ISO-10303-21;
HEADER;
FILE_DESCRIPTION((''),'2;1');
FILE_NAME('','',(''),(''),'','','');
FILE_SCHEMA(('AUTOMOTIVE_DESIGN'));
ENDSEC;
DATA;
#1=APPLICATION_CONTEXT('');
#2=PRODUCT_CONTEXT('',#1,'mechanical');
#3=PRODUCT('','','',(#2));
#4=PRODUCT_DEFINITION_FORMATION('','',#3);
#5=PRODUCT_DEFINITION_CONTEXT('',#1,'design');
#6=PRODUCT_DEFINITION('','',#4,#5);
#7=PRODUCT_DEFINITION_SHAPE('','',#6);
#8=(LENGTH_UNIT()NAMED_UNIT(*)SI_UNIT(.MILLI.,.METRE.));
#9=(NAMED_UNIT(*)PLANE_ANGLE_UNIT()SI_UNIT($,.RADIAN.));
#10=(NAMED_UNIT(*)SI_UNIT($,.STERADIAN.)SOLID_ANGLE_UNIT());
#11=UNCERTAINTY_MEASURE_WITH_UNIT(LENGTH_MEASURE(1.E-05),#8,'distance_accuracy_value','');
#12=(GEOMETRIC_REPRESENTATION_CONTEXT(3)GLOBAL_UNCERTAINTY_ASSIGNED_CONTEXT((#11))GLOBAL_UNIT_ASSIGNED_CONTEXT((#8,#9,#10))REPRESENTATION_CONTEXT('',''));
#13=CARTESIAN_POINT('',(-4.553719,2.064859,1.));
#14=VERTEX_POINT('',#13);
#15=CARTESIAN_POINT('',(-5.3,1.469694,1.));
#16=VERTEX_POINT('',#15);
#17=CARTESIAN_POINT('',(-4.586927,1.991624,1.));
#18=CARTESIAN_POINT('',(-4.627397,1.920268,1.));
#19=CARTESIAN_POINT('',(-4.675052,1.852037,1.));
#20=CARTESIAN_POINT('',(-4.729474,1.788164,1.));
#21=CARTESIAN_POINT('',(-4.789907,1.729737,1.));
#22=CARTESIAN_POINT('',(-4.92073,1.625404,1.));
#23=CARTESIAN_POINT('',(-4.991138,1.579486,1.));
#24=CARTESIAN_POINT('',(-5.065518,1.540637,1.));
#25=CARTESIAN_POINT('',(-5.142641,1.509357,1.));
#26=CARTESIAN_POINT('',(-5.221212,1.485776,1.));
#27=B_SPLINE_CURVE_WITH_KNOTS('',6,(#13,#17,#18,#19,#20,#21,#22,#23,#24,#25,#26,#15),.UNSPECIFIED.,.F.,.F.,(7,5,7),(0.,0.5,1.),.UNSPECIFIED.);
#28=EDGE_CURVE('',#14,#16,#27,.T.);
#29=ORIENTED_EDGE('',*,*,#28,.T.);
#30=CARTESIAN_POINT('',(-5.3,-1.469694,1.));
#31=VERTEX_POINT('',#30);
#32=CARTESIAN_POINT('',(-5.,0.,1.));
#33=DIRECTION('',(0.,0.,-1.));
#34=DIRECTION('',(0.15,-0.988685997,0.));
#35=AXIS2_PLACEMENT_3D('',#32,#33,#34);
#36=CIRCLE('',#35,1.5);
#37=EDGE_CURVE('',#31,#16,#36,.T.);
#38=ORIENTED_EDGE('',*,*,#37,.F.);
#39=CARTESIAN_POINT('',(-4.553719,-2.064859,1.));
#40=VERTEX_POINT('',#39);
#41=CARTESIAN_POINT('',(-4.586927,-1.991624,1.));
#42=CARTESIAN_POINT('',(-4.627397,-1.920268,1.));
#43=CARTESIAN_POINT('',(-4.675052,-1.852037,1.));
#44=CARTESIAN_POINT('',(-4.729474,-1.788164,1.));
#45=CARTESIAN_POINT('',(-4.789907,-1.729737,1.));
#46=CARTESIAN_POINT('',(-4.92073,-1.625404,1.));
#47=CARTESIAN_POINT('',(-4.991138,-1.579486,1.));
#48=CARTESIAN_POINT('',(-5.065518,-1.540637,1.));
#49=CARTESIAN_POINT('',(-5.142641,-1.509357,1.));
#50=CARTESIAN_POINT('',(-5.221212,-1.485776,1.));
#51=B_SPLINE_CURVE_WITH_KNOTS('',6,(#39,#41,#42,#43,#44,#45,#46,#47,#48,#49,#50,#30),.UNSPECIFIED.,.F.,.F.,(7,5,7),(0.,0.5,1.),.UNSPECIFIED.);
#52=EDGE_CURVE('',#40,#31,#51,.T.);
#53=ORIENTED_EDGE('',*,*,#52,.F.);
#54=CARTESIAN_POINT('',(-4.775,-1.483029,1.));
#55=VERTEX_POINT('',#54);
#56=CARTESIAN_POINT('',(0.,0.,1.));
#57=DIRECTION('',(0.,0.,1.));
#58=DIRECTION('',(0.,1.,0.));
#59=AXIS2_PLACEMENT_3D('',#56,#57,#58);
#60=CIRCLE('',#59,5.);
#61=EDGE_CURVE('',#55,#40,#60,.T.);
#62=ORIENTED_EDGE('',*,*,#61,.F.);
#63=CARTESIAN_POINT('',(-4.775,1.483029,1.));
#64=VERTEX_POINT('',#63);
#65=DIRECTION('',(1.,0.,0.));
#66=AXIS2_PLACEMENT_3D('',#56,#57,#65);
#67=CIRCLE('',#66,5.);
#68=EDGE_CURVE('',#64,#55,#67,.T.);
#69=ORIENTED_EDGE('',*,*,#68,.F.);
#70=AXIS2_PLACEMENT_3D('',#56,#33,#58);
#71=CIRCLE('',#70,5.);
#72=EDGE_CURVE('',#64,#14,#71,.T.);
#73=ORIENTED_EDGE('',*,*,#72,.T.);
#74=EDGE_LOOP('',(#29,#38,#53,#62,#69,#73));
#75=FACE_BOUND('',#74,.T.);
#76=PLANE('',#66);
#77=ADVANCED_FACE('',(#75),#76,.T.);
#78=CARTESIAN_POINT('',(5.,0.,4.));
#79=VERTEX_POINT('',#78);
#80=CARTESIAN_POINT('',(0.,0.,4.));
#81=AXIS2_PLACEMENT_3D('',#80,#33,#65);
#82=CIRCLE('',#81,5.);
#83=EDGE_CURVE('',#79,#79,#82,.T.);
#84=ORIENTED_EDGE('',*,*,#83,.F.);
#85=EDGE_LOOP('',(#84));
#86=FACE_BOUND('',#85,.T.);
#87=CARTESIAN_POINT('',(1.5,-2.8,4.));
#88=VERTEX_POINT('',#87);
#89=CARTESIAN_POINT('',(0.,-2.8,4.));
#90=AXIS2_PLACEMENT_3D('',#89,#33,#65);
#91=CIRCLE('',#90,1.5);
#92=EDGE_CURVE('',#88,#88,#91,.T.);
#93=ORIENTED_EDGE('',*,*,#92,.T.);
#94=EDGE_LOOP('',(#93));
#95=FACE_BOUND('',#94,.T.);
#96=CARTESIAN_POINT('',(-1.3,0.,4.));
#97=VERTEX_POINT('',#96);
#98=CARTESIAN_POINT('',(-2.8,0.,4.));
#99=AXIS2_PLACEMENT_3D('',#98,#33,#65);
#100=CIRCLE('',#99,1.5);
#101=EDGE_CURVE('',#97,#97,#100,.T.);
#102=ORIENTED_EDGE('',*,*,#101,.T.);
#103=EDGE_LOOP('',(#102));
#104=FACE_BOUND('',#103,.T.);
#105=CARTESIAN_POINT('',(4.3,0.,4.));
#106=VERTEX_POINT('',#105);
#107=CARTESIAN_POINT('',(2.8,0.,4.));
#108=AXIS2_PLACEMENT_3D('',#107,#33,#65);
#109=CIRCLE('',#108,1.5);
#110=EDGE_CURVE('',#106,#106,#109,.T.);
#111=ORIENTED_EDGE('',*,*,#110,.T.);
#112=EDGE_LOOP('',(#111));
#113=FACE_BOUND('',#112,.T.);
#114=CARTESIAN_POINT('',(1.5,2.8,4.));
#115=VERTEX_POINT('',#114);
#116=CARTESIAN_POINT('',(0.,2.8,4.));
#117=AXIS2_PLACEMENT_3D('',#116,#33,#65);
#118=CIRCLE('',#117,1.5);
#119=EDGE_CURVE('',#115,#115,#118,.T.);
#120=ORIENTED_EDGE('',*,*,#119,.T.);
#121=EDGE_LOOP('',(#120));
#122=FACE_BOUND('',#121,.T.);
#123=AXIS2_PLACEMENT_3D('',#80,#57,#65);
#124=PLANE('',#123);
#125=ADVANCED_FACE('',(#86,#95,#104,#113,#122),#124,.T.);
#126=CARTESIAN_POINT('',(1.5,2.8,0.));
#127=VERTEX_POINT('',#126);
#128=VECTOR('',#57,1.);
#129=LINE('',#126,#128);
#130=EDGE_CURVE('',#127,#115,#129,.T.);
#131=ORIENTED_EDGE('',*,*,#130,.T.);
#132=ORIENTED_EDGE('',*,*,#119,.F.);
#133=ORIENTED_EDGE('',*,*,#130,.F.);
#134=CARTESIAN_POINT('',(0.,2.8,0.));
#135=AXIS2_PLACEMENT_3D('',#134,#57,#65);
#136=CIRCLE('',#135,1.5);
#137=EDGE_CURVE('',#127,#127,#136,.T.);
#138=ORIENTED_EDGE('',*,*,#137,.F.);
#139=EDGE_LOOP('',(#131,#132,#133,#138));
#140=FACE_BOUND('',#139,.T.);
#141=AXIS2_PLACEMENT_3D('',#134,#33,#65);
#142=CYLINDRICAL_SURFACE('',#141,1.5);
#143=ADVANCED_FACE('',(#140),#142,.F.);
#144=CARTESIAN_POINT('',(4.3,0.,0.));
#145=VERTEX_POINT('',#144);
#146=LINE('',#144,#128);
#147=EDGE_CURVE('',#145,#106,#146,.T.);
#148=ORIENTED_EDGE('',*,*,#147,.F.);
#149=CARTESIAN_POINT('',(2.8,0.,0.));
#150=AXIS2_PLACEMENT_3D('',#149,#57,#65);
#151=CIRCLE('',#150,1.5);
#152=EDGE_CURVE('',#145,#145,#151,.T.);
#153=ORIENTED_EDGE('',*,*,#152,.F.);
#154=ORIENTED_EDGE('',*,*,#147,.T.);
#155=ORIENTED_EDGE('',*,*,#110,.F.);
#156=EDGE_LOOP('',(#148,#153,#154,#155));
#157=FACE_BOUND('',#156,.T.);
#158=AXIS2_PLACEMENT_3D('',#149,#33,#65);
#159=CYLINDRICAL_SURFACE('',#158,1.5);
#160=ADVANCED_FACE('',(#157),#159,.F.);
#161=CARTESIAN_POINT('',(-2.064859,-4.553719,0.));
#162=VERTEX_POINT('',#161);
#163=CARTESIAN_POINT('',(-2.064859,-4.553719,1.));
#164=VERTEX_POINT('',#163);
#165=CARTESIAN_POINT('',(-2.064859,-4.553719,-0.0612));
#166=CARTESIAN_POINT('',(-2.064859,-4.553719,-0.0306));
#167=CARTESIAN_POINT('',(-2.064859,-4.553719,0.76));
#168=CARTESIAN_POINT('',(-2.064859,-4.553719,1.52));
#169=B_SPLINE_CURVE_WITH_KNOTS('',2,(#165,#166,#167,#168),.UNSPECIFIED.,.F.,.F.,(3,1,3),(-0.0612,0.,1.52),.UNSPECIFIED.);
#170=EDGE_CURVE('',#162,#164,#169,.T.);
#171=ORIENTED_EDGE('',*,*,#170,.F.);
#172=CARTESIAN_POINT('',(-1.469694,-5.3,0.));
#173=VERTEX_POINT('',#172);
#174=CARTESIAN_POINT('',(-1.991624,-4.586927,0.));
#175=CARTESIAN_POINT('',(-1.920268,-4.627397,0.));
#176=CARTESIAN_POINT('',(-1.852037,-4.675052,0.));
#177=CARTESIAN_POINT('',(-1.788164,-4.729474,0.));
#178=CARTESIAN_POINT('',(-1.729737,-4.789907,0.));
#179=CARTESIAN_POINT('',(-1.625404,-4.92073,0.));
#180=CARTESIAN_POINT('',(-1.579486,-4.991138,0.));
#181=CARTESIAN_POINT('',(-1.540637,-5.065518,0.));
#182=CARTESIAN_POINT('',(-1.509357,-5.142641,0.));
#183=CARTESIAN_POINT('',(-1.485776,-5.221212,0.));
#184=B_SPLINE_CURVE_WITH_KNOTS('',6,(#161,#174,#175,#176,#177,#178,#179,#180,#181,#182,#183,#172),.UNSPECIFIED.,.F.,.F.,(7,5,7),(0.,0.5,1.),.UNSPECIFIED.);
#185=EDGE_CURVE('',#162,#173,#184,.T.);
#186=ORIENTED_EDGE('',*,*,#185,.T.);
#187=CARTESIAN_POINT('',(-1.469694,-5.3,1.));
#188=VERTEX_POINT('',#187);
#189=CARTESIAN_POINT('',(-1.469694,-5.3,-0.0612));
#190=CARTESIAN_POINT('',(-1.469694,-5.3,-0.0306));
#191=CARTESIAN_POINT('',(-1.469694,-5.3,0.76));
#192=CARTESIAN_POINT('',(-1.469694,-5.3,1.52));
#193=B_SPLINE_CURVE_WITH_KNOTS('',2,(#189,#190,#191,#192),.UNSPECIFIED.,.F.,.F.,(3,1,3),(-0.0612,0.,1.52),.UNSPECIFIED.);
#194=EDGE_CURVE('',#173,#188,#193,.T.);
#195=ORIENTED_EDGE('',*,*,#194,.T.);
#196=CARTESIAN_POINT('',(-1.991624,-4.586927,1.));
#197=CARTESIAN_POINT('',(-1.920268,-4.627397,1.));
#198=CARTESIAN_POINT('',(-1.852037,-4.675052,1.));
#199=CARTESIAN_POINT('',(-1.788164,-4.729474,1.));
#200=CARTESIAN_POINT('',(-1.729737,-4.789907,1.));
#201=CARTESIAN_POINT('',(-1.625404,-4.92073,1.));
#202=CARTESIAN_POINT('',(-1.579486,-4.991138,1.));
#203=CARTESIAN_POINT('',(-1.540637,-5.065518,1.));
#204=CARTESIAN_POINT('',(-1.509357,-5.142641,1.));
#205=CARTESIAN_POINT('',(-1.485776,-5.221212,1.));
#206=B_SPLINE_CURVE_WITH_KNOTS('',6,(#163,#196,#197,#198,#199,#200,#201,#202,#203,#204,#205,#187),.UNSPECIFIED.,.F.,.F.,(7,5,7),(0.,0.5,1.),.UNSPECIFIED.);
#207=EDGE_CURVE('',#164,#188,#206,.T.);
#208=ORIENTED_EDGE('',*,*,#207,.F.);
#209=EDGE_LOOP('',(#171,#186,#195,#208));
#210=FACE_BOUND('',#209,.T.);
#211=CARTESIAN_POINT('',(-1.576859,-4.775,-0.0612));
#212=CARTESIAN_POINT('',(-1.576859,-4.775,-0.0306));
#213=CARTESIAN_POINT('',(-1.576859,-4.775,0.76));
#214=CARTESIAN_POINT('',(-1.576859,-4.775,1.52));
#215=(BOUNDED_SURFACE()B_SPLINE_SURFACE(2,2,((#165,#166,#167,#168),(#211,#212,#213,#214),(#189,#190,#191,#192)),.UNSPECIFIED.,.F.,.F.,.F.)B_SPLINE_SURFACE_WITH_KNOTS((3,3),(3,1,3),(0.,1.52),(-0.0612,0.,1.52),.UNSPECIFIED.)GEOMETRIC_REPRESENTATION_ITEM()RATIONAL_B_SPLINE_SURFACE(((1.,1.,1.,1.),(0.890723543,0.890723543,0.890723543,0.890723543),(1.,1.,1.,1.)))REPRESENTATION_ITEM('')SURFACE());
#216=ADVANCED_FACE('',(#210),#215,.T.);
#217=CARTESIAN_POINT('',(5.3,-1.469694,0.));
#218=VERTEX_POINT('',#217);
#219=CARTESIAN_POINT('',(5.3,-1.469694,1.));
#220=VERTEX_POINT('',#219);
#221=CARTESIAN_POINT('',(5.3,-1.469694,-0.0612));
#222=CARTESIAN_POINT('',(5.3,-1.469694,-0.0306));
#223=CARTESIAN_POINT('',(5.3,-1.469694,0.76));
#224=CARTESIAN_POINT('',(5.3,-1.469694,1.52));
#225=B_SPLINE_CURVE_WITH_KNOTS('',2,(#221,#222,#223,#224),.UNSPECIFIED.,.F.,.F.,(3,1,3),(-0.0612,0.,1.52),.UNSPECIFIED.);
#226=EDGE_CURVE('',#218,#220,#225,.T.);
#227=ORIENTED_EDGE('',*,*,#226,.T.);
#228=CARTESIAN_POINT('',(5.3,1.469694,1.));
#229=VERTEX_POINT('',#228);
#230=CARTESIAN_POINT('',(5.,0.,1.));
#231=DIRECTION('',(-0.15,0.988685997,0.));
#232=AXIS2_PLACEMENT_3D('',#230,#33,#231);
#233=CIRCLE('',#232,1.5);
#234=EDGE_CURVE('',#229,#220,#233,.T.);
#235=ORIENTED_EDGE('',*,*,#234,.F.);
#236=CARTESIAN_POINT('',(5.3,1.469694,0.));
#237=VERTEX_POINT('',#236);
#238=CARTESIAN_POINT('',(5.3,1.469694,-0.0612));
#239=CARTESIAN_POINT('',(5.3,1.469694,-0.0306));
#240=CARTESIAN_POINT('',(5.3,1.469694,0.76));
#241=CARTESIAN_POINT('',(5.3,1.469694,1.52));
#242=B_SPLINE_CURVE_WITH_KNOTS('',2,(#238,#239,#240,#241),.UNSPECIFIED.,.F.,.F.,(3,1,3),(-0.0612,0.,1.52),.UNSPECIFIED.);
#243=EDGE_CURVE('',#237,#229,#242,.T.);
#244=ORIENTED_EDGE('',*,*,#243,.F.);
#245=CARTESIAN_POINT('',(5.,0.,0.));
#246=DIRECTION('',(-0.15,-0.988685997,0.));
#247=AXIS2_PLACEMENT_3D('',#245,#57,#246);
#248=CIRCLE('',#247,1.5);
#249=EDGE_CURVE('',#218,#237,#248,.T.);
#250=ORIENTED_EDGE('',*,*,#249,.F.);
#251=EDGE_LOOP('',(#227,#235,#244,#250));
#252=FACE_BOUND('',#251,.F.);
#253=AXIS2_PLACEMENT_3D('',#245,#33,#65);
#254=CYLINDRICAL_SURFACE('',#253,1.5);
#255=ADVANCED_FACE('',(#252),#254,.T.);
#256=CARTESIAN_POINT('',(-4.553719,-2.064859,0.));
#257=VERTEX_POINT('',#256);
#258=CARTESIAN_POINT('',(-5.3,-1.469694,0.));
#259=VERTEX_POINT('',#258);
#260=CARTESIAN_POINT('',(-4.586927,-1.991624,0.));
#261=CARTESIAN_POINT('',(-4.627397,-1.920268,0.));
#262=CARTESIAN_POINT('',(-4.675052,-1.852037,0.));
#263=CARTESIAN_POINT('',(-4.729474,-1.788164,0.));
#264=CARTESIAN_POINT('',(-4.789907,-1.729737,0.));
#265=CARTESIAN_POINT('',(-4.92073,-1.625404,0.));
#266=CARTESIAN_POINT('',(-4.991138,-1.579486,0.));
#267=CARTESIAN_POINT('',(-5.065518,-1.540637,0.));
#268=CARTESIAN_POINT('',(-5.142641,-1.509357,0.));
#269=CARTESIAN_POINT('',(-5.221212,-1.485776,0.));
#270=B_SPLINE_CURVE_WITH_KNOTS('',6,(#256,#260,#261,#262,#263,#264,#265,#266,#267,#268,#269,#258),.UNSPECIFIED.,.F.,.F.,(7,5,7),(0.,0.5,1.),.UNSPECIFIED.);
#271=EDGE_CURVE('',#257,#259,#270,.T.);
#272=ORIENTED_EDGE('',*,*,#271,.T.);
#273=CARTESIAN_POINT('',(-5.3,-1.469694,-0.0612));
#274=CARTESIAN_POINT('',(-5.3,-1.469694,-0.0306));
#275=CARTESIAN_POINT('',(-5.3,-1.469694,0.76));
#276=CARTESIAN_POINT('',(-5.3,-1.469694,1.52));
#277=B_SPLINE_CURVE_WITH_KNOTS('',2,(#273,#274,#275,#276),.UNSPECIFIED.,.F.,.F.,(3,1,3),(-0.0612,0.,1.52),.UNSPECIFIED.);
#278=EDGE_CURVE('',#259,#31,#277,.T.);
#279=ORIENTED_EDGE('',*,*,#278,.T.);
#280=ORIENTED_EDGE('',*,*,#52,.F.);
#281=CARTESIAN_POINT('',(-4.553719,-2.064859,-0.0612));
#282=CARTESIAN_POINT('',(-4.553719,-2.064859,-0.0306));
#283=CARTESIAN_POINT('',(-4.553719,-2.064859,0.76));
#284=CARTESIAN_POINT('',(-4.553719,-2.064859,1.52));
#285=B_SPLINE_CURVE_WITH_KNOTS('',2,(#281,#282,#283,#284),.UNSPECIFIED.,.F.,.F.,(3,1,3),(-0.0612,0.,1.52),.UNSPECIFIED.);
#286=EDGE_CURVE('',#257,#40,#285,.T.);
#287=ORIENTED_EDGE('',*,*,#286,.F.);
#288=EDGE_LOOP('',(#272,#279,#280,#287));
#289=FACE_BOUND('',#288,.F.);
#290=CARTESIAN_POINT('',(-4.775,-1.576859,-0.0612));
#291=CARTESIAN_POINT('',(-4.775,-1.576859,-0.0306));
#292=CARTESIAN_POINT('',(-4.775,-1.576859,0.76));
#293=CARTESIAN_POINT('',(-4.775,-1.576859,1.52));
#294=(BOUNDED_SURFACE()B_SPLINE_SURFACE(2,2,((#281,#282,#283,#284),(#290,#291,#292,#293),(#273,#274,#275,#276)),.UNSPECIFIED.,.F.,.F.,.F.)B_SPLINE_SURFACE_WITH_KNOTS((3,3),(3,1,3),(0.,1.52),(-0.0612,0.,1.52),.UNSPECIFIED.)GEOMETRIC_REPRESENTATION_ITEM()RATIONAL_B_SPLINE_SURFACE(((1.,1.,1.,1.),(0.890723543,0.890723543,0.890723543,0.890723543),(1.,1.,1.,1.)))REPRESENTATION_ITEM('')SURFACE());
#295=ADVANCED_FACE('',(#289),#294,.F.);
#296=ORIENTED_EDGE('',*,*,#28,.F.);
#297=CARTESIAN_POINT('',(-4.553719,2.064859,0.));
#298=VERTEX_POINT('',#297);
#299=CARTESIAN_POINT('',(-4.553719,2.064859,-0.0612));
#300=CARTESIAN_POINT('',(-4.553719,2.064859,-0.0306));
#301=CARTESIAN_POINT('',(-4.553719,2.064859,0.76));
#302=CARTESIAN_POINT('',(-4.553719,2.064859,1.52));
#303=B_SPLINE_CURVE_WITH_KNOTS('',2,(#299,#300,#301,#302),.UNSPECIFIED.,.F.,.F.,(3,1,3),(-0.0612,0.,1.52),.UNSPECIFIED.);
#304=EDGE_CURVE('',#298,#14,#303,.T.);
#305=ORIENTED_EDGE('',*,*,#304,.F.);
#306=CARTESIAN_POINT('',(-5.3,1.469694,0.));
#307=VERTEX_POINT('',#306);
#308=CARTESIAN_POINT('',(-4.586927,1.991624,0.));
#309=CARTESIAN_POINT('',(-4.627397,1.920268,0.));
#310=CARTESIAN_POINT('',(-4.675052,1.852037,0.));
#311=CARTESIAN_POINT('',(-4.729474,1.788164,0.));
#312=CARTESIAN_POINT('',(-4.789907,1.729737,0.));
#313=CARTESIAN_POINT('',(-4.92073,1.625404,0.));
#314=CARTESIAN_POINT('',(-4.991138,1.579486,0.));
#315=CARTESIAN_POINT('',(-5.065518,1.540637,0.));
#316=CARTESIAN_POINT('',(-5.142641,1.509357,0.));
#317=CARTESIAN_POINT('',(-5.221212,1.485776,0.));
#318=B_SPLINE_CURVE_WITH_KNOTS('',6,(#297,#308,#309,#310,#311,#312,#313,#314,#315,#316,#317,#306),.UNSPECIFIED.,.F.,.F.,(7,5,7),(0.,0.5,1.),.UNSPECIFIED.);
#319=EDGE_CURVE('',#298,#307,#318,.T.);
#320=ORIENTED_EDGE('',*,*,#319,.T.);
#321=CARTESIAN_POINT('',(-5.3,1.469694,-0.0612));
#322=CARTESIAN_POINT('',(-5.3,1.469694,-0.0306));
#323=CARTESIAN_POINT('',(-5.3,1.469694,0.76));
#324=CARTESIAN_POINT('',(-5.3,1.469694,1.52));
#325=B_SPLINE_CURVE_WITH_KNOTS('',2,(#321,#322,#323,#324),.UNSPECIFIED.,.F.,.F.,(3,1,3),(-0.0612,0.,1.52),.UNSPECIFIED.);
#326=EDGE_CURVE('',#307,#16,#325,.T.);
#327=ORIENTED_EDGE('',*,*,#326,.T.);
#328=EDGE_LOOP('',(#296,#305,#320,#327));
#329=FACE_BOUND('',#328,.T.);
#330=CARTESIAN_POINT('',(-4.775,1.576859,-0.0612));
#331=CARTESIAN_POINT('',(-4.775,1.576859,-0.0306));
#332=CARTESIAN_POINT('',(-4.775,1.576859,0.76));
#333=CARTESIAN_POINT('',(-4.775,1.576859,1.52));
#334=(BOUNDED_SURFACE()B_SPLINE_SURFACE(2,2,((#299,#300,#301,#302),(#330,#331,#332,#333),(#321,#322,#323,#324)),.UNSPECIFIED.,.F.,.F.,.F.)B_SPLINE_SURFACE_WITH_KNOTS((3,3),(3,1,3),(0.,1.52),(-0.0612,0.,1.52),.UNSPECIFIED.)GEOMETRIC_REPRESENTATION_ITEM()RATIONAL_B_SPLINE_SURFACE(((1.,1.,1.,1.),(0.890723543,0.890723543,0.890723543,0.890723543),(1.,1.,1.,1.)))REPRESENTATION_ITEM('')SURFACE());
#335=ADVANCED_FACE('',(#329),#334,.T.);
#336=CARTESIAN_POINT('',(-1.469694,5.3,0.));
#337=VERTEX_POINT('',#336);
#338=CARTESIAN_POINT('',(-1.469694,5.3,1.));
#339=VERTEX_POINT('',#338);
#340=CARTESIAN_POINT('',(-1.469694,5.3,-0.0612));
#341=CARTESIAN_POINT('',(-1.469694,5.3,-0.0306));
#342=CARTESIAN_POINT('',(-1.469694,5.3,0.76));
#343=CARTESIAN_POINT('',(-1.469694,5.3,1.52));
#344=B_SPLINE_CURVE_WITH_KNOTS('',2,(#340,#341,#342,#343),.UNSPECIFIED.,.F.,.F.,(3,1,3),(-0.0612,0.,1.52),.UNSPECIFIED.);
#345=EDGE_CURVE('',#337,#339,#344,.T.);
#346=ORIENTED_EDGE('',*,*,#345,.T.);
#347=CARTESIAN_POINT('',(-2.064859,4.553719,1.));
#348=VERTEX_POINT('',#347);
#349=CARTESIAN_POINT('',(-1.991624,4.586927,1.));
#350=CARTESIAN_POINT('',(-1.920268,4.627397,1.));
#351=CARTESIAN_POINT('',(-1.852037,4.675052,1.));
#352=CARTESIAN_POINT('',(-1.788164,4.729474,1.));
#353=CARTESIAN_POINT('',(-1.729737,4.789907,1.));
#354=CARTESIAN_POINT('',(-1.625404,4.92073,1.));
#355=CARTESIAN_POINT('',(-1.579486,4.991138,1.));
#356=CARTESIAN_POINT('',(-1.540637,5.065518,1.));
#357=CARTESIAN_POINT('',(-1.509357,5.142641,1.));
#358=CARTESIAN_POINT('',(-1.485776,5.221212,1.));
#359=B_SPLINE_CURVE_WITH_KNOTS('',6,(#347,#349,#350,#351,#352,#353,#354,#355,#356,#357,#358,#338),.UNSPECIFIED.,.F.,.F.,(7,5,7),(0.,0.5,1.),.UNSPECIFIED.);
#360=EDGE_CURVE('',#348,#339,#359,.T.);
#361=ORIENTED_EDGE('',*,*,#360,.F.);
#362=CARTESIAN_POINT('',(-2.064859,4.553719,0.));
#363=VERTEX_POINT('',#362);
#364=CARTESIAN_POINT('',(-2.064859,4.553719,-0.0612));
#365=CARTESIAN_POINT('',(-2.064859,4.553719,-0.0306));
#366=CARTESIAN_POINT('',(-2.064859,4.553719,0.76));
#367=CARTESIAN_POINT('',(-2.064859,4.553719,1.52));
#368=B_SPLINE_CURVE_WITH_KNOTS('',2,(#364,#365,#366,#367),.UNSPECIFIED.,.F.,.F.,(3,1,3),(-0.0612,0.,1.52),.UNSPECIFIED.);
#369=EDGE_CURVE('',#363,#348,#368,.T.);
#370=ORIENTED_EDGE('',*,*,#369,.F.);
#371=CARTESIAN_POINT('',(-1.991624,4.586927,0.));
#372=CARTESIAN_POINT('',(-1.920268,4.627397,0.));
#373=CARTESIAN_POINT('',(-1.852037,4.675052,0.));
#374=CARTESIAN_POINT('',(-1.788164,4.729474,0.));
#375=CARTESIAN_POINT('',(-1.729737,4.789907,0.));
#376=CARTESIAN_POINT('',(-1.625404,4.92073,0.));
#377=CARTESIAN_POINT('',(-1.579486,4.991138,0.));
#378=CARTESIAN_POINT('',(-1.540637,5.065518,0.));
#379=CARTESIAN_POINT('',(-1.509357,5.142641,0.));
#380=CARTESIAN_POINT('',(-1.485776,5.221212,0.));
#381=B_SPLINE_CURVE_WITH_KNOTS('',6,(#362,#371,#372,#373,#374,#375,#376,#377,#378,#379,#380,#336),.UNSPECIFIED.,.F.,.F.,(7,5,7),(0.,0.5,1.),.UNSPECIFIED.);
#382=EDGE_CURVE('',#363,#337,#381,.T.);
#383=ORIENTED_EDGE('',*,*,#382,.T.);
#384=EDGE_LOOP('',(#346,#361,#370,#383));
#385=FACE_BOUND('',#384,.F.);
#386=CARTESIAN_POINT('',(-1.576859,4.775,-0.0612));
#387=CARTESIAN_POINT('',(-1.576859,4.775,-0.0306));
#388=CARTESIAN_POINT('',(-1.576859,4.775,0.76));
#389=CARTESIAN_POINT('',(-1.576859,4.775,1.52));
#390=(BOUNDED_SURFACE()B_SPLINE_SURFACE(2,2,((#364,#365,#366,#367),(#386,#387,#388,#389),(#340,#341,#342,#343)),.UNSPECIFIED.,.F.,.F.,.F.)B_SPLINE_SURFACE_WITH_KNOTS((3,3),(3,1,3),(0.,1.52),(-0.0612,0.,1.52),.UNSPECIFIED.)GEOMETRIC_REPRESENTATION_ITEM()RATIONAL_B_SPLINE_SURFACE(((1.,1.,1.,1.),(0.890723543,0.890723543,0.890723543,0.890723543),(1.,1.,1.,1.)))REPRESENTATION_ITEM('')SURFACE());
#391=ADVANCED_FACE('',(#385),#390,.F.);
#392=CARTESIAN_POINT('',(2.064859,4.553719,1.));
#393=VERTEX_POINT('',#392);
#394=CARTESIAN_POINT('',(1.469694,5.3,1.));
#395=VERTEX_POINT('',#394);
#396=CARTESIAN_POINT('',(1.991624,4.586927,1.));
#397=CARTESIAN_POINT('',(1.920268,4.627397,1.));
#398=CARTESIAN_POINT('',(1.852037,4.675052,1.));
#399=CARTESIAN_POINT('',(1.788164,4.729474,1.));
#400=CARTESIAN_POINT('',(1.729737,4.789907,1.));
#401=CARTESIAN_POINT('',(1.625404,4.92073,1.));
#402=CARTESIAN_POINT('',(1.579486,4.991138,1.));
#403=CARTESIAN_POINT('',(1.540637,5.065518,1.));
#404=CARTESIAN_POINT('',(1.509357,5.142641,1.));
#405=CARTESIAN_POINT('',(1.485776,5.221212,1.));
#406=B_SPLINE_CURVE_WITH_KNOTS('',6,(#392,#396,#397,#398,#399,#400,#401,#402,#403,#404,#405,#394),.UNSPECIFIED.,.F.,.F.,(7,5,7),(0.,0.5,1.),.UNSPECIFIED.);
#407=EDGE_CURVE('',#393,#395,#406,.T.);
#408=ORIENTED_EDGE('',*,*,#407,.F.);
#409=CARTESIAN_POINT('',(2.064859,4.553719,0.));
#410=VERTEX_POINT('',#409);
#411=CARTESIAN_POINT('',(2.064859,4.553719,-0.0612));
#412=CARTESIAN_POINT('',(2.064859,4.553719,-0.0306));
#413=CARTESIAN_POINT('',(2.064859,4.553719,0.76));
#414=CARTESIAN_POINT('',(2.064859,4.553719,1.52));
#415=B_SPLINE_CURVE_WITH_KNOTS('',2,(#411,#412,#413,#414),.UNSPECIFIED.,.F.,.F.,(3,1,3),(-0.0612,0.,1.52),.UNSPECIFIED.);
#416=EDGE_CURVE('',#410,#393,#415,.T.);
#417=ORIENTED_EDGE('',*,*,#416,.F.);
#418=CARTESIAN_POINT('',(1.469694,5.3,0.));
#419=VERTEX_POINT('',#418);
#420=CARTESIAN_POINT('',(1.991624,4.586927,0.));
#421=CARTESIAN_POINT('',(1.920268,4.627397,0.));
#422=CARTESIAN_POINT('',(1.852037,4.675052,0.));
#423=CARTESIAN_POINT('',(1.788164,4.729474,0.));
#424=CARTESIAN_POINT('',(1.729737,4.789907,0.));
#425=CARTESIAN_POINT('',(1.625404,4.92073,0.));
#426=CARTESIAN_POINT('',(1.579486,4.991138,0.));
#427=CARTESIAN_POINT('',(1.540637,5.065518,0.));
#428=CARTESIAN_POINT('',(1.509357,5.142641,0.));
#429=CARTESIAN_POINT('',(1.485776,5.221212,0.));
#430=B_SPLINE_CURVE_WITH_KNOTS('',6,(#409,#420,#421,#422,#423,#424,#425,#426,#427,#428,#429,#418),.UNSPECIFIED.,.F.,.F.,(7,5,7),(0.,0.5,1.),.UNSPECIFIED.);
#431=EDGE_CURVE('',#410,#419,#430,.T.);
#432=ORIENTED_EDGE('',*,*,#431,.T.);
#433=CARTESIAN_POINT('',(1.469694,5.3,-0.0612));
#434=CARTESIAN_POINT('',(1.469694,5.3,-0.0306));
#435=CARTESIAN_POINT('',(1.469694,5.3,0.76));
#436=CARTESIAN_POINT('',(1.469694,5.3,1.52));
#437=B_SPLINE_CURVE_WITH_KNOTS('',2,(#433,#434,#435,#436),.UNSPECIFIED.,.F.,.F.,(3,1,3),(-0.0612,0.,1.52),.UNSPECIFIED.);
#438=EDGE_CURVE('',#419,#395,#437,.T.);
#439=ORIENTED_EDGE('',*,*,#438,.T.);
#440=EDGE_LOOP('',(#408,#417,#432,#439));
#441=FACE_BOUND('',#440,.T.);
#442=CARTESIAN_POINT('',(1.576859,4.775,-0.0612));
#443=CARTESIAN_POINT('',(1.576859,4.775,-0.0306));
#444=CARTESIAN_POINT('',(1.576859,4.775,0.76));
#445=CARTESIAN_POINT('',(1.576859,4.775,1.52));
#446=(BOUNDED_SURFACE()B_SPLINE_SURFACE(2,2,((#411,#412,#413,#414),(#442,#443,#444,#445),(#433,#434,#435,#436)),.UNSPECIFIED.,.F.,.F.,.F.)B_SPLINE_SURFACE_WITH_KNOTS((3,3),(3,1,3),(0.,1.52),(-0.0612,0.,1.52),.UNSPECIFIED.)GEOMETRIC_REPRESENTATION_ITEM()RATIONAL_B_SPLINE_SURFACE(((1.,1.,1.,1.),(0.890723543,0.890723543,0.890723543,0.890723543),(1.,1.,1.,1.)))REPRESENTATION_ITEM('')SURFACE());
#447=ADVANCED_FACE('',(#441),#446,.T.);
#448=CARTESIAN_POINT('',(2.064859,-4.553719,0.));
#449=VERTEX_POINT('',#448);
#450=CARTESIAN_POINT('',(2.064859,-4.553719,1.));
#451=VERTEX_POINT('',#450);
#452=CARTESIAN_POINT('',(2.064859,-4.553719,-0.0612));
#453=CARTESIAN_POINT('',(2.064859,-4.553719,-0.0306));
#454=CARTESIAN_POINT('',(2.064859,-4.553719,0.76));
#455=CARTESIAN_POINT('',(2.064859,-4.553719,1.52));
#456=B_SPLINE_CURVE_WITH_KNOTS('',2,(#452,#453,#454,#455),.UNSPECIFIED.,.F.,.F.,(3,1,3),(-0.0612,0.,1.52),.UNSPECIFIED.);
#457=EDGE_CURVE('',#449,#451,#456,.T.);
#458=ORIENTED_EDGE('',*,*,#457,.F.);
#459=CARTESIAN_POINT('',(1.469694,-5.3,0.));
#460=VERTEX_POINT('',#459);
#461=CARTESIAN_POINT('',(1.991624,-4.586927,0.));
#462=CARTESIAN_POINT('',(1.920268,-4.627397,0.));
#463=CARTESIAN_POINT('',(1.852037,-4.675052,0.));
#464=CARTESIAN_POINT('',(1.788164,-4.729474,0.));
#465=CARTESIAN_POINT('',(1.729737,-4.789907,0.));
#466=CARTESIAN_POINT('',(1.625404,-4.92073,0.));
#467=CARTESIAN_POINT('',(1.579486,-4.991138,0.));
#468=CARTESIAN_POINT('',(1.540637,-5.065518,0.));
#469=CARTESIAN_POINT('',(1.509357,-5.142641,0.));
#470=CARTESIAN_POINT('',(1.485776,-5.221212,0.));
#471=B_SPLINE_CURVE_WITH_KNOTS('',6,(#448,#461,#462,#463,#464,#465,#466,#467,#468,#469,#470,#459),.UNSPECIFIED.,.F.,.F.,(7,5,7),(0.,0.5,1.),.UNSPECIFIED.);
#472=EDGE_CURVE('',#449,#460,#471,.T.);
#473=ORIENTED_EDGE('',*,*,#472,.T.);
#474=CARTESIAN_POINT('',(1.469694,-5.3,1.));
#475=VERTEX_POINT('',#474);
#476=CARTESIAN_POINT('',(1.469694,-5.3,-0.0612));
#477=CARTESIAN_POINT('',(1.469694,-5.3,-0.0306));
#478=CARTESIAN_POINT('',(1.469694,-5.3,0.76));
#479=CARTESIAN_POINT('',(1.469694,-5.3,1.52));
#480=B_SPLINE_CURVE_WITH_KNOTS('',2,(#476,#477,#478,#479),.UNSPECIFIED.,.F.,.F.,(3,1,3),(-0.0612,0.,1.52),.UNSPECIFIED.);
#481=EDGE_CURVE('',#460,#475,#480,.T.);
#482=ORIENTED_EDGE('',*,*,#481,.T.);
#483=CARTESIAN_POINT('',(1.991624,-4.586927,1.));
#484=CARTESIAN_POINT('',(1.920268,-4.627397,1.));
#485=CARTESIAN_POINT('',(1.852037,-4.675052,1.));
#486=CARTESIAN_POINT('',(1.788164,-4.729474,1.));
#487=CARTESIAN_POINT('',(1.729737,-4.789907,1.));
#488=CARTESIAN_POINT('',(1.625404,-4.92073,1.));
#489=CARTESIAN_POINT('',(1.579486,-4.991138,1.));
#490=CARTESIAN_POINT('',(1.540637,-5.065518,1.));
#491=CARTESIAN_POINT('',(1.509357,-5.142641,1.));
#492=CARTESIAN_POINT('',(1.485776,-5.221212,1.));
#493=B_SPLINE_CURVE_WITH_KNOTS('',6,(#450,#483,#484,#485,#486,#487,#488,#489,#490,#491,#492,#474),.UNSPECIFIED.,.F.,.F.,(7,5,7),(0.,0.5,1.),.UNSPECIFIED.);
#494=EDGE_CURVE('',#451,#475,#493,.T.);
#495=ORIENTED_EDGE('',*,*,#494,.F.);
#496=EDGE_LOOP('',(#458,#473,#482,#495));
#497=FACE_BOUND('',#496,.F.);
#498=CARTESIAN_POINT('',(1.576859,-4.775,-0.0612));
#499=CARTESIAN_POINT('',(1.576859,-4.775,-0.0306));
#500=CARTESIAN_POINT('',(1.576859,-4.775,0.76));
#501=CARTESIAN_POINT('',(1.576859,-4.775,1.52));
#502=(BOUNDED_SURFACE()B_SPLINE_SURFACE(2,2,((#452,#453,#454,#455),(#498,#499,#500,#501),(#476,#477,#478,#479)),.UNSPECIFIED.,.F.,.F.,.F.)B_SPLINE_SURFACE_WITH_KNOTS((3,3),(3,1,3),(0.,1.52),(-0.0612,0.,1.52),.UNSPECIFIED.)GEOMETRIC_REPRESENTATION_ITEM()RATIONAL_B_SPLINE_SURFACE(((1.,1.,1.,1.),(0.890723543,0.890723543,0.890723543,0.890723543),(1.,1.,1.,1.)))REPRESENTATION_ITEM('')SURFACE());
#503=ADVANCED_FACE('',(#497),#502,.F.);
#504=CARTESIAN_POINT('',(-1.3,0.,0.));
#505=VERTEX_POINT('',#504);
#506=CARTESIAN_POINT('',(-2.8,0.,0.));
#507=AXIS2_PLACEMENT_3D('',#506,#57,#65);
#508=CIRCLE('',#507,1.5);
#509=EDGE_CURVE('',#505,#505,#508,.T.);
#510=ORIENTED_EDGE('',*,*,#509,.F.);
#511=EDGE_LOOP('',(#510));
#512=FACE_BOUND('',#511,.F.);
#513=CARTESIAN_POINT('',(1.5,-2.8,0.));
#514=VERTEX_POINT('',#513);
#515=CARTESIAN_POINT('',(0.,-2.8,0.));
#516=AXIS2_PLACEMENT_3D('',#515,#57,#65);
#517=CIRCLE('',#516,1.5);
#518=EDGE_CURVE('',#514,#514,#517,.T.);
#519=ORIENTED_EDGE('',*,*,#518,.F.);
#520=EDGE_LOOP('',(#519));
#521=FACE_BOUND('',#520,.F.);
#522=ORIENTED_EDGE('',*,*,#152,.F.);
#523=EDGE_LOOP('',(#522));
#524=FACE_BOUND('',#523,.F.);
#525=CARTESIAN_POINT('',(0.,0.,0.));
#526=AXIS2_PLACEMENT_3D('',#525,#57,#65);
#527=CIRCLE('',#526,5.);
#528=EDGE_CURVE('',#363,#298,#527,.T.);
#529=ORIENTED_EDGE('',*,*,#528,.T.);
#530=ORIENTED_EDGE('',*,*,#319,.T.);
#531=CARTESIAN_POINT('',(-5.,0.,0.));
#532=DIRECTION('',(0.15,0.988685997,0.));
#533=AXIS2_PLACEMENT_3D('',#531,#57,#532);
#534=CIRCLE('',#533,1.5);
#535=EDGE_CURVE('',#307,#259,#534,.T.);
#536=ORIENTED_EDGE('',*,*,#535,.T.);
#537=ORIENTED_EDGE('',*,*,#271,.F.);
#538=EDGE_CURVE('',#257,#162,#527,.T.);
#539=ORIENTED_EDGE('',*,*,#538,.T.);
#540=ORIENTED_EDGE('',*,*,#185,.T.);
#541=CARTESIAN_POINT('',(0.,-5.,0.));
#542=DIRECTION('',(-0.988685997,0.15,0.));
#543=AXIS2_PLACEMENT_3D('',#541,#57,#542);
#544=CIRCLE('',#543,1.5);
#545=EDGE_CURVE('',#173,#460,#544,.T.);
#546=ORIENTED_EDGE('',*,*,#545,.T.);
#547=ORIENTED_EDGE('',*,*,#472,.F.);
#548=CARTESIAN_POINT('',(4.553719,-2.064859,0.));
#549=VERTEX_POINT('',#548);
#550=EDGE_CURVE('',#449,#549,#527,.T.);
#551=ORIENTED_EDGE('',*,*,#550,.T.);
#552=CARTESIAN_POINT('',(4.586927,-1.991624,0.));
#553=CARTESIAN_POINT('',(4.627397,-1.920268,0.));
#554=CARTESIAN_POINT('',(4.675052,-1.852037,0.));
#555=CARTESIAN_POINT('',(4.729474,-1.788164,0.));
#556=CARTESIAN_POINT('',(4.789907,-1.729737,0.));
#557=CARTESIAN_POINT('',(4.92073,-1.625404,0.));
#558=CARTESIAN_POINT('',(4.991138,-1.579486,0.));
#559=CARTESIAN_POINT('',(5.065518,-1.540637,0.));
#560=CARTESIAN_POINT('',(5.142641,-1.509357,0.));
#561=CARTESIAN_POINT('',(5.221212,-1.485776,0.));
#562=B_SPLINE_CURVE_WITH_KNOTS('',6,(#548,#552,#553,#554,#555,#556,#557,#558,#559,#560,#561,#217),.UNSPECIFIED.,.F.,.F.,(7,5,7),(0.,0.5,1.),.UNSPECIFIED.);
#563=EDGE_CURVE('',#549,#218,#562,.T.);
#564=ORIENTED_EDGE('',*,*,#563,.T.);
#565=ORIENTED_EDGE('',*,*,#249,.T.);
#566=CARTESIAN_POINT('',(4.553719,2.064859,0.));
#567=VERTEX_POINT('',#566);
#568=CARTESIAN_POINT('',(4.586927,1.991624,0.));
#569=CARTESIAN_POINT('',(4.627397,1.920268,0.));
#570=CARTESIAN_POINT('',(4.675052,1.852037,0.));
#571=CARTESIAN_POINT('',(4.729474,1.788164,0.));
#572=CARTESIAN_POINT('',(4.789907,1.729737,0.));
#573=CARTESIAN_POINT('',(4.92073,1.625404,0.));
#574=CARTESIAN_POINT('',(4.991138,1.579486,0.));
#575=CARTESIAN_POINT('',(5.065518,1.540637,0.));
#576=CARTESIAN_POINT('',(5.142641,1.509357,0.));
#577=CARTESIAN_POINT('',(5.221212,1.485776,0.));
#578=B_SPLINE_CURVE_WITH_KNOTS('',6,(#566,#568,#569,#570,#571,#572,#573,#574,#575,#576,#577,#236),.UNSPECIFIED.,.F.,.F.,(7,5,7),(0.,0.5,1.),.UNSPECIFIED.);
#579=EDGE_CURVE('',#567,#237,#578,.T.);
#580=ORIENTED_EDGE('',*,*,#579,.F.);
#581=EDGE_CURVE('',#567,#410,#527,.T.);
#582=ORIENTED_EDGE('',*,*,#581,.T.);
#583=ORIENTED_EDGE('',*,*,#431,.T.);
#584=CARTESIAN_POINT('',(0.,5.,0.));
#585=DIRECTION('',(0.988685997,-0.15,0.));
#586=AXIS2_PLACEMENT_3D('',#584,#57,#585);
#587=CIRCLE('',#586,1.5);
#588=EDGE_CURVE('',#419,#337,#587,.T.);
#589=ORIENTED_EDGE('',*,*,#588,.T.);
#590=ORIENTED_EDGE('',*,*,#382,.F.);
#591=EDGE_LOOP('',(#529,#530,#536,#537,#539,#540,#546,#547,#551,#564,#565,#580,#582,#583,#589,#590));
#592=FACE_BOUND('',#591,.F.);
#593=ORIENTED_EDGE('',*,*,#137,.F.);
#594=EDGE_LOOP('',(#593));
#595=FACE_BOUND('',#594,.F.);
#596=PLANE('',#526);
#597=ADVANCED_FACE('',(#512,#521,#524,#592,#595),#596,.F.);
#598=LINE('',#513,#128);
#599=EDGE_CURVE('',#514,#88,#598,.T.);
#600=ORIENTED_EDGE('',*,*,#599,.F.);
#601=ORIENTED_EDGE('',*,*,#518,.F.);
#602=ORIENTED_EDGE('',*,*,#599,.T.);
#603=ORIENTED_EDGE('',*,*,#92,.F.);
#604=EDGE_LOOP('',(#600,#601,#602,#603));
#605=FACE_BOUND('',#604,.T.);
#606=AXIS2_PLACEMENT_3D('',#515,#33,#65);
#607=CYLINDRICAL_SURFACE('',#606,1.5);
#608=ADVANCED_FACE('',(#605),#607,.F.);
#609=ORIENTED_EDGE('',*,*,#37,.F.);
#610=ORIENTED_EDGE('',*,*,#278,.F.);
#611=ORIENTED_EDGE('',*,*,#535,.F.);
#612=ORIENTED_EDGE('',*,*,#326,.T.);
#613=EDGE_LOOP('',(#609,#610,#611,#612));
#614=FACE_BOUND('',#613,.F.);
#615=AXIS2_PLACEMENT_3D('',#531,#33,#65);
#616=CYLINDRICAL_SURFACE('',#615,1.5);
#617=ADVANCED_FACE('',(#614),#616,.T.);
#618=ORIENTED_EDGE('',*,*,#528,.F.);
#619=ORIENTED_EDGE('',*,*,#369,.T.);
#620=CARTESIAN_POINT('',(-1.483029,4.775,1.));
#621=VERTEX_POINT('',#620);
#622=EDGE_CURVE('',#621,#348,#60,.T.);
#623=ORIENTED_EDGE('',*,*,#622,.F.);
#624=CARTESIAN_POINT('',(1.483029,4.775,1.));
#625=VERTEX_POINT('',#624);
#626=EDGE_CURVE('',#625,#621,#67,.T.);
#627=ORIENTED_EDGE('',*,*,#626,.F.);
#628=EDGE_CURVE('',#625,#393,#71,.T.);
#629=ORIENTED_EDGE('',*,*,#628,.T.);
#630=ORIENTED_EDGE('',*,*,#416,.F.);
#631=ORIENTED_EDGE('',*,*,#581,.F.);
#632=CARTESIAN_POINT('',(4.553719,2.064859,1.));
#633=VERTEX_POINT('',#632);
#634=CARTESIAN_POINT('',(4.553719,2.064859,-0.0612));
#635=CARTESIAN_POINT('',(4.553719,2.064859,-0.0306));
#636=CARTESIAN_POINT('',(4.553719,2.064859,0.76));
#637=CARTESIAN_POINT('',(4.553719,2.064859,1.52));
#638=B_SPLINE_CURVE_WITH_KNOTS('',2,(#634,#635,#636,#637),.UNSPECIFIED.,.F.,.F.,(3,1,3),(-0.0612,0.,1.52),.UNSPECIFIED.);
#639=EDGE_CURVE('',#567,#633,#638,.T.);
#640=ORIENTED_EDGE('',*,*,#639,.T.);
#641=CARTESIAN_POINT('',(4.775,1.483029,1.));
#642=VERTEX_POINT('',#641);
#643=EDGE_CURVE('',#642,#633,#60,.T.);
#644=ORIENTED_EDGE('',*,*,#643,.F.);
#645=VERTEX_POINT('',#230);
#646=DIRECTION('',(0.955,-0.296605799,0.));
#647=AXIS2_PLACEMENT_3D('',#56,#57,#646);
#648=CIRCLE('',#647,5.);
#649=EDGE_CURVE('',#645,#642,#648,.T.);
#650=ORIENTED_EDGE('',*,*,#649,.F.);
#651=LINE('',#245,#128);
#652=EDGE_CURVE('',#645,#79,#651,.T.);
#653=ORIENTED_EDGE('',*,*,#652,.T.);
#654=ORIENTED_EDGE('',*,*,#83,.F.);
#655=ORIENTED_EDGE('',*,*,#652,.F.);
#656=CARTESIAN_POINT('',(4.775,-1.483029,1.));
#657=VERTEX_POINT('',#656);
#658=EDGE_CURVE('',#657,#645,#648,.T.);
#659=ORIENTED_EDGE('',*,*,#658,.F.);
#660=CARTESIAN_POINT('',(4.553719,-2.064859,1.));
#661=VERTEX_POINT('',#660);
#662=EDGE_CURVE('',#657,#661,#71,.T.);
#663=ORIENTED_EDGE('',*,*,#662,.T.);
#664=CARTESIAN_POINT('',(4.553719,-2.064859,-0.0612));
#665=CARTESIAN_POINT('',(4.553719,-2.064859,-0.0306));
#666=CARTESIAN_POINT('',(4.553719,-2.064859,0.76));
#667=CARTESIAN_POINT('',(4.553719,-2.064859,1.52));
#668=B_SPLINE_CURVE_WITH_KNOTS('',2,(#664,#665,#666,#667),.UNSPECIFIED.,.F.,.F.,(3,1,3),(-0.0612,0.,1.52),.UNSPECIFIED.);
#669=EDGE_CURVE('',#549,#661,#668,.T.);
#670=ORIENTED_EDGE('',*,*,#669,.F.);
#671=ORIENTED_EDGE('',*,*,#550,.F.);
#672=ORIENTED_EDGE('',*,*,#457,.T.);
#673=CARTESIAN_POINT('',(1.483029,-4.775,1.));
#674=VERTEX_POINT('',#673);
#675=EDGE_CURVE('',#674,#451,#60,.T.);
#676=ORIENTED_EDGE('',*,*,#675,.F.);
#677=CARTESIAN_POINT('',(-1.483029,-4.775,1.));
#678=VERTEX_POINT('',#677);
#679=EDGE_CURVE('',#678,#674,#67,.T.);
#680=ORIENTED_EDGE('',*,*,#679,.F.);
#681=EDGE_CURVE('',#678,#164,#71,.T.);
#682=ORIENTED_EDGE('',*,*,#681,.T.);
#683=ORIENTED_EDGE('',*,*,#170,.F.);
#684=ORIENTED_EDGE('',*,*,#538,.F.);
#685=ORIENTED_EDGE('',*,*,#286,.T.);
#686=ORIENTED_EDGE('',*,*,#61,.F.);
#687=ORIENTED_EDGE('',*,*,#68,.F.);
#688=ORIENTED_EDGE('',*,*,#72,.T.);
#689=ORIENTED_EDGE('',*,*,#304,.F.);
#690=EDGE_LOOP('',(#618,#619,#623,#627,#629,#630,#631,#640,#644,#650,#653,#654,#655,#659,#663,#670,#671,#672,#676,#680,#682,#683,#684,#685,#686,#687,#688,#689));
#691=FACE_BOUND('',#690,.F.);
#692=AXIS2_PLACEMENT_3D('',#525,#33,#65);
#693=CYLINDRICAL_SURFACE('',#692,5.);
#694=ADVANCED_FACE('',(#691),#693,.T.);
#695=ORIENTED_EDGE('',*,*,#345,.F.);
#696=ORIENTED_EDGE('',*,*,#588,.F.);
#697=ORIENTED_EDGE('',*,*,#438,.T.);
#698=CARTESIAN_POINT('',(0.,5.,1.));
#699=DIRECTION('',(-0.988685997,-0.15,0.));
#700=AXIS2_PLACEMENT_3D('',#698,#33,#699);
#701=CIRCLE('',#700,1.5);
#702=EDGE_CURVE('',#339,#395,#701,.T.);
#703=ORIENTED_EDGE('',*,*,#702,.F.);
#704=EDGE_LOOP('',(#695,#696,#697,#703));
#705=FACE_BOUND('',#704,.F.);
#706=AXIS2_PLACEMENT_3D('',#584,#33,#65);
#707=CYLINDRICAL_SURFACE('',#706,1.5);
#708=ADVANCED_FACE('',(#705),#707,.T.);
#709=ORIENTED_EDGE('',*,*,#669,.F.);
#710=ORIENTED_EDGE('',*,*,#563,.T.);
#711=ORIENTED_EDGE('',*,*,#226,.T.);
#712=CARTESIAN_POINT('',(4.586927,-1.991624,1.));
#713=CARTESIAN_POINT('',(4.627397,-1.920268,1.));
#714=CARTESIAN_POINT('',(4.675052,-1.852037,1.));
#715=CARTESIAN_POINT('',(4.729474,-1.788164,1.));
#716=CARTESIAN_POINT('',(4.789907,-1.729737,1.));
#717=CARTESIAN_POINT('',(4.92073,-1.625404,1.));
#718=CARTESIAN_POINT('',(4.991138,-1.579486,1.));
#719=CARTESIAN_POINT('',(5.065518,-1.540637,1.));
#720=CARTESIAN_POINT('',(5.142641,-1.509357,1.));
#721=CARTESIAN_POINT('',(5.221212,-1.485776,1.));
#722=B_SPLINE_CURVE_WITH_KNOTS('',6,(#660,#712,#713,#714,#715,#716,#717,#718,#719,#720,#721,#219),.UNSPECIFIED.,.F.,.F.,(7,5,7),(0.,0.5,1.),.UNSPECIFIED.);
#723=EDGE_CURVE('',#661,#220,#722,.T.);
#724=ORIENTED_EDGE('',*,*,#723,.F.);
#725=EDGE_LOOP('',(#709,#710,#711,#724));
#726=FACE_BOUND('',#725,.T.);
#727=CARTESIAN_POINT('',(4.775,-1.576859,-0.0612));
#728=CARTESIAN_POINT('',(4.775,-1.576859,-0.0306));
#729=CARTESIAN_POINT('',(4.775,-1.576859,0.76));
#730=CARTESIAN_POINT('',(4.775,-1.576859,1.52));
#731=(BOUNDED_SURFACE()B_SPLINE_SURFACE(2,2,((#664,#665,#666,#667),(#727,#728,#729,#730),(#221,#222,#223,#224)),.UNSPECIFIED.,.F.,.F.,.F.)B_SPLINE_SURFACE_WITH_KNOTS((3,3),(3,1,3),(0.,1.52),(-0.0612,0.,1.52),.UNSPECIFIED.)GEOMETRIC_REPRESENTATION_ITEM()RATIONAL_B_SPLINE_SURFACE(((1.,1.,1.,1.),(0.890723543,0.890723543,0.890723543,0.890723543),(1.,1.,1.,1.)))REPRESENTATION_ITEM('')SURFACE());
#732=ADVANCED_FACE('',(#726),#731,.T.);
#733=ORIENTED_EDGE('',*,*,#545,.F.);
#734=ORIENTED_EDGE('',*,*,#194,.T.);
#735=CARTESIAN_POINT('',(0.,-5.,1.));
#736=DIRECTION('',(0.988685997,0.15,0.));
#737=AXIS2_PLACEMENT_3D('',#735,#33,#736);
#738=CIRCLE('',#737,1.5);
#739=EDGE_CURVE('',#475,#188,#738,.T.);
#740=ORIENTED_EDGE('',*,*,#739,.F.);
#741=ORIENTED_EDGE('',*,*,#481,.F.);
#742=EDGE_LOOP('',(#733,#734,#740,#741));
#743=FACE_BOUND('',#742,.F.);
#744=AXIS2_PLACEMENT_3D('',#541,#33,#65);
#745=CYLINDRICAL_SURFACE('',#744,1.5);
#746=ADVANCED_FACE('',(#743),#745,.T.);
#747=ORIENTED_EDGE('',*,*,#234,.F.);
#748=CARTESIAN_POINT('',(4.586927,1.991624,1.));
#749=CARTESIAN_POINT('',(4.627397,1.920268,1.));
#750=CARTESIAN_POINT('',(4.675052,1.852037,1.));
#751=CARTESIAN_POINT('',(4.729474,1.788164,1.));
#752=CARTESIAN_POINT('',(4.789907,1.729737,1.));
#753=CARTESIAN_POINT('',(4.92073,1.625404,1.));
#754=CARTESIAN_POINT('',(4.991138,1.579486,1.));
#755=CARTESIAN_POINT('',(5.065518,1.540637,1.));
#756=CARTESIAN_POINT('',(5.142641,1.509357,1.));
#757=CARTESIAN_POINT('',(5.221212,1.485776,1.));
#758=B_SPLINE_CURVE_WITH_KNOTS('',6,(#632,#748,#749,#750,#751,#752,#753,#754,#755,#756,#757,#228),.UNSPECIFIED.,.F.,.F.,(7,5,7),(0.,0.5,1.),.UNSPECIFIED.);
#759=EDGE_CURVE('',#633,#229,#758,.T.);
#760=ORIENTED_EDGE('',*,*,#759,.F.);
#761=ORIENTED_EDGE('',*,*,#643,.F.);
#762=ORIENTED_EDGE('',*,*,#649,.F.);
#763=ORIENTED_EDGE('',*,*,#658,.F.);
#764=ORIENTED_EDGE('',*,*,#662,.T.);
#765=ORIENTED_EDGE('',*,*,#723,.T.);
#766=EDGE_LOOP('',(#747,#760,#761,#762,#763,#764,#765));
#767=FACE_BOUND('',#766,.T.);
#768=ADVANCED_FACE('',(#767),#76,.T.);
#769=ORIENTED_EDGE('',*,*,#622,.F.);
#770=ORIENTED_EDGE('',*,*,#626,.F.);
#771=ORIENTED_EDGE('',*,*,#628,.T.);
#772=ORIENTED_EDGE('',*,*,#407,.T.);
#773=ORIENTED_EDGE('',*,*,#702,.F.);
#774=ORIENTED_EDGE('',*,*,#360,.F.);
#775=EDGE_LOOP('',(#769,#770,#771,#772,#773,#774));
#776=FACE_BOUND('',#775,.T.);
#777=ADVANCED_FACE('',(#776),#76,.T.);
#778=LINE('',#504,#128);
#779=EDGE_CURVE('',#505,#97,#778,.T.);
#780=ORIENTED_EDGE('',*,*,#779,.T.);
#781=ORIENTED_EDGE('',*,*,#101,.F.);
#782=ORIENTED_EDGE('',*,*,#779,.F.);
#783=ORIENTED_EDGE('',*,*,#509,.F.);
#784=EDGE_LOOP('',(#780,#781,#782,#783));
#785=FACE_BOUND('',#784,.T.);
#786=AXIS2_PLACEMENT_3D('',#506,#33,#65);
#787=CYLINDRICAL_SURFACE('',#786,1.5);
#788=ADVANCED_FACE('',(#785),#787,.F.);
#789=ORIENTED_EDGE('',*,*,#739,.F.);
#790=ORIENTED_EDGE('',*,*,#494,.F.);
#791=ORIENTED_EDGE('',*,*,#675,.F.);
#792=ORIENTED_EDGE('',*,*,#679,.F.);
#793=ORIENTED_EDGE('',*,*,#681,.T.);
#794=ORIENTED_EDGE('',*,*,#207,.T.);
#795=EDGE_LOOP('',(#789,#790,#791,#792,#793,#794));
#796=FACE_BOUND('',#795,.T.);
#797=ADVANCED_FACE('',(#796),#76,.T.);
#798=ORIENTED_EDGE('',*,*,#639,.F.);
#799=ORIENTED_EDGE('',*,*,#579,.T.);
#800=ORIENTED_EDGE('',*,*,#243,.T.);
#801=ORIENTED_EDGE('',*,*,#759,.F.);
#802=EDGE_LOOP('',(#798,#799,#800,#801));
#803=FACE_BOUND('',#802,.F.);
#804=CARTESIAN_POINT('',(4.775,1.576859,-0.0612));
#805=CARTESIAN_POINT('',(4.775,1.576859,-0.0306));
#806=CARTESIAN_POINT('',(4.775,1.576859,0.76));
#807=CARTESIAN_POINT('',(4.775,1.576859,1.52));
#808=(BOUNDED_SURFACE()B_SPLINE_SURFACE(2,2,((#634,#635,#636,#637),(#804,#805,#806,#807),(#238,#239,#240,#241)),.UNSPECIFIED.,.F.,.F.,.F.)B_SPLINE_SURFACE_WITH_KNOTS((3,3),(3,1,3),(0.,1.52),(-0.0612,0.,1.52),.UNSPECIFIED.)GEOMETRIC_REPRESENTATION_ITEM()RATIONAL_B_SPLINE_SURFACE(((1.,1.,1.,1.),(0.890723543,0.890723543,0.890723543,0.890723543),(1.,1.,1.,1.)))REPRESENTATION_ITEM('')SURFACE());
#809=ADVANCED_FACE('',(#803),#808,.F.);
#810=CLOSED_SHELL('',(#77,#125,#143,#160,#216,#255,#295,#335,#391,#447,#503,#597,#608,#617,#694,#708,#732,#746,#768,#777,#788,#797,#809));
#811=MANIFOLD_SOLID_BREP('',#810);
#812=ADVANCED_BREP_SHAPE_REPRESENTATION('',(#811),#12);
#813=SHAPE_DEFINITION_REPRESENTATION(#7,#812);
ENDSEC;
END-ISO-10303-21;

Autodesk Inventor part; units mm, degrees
ref_plane "YZ Plane" through (0, 0, 0) normal (1, 0, 0) x (0, 1, 0)
ref_plane "XZ Plane" through (0, 0, 0) normal (0, 1, 0) x (-1, 0, 0)
ref_plane "XY Plane" through (0, 0, 0) normal (0, 0, 1) x (1, 0, 0)
sketch "スケッチ1" plane through (0, 0, 0) normal (0, 0, 1) x (1, 0, 0)
  circle A0 centre (2.8, 0) radius 2.8
  line L0 (2.8, 0) -> (0, 0)
  circle A1 centre (0, 2.8) radius 2.8
  circle A2 centre (-2.8, 0) radius 2.8
  circle A3 centre (0, -2.8) radius 2.8
  circle A4 centre (2.8, 0) radius 1.5
  circle A5 centre (0, 2.8) radius 1.5
  circle A6 centre (-2.8, 0) radius 1.5
  circle A7 centre (0, -2.8) radius 1.5
  circle A8 centre (0, 0) radius 5
  circle A9 centre (0, 5) radius 1.5
  circle A10 centre (-5, 0) radius 1.5
  circle A11 centre (0, -5) radius 1.5
  circle A12 centre (5, 0) radius 1.5
  point P0 (-1.483, -4.775)
  point P1 (1.483, -4.775)
  point P2 (-4.775, -1.483)
  point P3 (-4.775, 1.483)
  point P4 (4.775, 1.483)
  point P5 (4.775, -1.483)
  point P6 (-1.483, 4.775)
  point P7 (1.483, 4.775)
  dimension "d12" = 10
  dimension "d1" = 5.6
  dimension "d4" = 360
  dimension "d7" = 3
  dimension "d10" = 360
  dimension "d15" = 3
  dimension "d18" = 360
extrude "押し出し1" add sketch "スケッチ1" along normal blind 4 contours A8 A12 A4 A1 A0 | A0 A1 A8 | A8 A12 A4 | A8 A3 A0 | A0 A3 A4 A12 A8 | A1 A4 A0 A5 | A0 A5 A9 A8 A1 | A3 A8 A11 A7 A0 | A0 A7 A3 A4 | A9 A5 A8 | A8 A11 A7 | A0 A2 A5 | A4 L0 A1 | A9 A5 A2 A1 A8 | A7 A2 A0 | A3 L0 A4 | A8 A3 A2 A7 A11 | A3 A6 A1 | A1 A6 A2 A5 | A2 A7 A3 A6 | A1 A2 A8 | A8 A2 A3 | A1 A6 A10 A8 A2 | A2 A8 A10 A6 A3 | A10 A6 A8
extrude "押し出し2" add sketch "スケッチ1" along normal blind 1 contours A0 A12 A8 | A0 A12 | A9 A8 A1 | A1 A9 | A11 A3 | A3 A11 A8 | A10 A8 A2 | A2 A10 picked at (5.3837, -0.1736) picked at (-0.1045, 5.1773) picked at (-0.1045, -5.1773) picked at (-5.1773, 0.1045)
fillet "フィレット1" radius 1.05 8 edges at (4.775, 1.483, 0.5) (4.775, -1.483, 0.5) (1.483, 4.775, 0.5) (-1.483, 4.775, 0.5) (-1.483, -4.775, 0.5) (1.483, -4.775, 0.5) (-4.775, 1.483, 0.5) (-4.775, -1.483, 0.5)
properties part number "カムL4F" material "アセタール樹脂、白"
